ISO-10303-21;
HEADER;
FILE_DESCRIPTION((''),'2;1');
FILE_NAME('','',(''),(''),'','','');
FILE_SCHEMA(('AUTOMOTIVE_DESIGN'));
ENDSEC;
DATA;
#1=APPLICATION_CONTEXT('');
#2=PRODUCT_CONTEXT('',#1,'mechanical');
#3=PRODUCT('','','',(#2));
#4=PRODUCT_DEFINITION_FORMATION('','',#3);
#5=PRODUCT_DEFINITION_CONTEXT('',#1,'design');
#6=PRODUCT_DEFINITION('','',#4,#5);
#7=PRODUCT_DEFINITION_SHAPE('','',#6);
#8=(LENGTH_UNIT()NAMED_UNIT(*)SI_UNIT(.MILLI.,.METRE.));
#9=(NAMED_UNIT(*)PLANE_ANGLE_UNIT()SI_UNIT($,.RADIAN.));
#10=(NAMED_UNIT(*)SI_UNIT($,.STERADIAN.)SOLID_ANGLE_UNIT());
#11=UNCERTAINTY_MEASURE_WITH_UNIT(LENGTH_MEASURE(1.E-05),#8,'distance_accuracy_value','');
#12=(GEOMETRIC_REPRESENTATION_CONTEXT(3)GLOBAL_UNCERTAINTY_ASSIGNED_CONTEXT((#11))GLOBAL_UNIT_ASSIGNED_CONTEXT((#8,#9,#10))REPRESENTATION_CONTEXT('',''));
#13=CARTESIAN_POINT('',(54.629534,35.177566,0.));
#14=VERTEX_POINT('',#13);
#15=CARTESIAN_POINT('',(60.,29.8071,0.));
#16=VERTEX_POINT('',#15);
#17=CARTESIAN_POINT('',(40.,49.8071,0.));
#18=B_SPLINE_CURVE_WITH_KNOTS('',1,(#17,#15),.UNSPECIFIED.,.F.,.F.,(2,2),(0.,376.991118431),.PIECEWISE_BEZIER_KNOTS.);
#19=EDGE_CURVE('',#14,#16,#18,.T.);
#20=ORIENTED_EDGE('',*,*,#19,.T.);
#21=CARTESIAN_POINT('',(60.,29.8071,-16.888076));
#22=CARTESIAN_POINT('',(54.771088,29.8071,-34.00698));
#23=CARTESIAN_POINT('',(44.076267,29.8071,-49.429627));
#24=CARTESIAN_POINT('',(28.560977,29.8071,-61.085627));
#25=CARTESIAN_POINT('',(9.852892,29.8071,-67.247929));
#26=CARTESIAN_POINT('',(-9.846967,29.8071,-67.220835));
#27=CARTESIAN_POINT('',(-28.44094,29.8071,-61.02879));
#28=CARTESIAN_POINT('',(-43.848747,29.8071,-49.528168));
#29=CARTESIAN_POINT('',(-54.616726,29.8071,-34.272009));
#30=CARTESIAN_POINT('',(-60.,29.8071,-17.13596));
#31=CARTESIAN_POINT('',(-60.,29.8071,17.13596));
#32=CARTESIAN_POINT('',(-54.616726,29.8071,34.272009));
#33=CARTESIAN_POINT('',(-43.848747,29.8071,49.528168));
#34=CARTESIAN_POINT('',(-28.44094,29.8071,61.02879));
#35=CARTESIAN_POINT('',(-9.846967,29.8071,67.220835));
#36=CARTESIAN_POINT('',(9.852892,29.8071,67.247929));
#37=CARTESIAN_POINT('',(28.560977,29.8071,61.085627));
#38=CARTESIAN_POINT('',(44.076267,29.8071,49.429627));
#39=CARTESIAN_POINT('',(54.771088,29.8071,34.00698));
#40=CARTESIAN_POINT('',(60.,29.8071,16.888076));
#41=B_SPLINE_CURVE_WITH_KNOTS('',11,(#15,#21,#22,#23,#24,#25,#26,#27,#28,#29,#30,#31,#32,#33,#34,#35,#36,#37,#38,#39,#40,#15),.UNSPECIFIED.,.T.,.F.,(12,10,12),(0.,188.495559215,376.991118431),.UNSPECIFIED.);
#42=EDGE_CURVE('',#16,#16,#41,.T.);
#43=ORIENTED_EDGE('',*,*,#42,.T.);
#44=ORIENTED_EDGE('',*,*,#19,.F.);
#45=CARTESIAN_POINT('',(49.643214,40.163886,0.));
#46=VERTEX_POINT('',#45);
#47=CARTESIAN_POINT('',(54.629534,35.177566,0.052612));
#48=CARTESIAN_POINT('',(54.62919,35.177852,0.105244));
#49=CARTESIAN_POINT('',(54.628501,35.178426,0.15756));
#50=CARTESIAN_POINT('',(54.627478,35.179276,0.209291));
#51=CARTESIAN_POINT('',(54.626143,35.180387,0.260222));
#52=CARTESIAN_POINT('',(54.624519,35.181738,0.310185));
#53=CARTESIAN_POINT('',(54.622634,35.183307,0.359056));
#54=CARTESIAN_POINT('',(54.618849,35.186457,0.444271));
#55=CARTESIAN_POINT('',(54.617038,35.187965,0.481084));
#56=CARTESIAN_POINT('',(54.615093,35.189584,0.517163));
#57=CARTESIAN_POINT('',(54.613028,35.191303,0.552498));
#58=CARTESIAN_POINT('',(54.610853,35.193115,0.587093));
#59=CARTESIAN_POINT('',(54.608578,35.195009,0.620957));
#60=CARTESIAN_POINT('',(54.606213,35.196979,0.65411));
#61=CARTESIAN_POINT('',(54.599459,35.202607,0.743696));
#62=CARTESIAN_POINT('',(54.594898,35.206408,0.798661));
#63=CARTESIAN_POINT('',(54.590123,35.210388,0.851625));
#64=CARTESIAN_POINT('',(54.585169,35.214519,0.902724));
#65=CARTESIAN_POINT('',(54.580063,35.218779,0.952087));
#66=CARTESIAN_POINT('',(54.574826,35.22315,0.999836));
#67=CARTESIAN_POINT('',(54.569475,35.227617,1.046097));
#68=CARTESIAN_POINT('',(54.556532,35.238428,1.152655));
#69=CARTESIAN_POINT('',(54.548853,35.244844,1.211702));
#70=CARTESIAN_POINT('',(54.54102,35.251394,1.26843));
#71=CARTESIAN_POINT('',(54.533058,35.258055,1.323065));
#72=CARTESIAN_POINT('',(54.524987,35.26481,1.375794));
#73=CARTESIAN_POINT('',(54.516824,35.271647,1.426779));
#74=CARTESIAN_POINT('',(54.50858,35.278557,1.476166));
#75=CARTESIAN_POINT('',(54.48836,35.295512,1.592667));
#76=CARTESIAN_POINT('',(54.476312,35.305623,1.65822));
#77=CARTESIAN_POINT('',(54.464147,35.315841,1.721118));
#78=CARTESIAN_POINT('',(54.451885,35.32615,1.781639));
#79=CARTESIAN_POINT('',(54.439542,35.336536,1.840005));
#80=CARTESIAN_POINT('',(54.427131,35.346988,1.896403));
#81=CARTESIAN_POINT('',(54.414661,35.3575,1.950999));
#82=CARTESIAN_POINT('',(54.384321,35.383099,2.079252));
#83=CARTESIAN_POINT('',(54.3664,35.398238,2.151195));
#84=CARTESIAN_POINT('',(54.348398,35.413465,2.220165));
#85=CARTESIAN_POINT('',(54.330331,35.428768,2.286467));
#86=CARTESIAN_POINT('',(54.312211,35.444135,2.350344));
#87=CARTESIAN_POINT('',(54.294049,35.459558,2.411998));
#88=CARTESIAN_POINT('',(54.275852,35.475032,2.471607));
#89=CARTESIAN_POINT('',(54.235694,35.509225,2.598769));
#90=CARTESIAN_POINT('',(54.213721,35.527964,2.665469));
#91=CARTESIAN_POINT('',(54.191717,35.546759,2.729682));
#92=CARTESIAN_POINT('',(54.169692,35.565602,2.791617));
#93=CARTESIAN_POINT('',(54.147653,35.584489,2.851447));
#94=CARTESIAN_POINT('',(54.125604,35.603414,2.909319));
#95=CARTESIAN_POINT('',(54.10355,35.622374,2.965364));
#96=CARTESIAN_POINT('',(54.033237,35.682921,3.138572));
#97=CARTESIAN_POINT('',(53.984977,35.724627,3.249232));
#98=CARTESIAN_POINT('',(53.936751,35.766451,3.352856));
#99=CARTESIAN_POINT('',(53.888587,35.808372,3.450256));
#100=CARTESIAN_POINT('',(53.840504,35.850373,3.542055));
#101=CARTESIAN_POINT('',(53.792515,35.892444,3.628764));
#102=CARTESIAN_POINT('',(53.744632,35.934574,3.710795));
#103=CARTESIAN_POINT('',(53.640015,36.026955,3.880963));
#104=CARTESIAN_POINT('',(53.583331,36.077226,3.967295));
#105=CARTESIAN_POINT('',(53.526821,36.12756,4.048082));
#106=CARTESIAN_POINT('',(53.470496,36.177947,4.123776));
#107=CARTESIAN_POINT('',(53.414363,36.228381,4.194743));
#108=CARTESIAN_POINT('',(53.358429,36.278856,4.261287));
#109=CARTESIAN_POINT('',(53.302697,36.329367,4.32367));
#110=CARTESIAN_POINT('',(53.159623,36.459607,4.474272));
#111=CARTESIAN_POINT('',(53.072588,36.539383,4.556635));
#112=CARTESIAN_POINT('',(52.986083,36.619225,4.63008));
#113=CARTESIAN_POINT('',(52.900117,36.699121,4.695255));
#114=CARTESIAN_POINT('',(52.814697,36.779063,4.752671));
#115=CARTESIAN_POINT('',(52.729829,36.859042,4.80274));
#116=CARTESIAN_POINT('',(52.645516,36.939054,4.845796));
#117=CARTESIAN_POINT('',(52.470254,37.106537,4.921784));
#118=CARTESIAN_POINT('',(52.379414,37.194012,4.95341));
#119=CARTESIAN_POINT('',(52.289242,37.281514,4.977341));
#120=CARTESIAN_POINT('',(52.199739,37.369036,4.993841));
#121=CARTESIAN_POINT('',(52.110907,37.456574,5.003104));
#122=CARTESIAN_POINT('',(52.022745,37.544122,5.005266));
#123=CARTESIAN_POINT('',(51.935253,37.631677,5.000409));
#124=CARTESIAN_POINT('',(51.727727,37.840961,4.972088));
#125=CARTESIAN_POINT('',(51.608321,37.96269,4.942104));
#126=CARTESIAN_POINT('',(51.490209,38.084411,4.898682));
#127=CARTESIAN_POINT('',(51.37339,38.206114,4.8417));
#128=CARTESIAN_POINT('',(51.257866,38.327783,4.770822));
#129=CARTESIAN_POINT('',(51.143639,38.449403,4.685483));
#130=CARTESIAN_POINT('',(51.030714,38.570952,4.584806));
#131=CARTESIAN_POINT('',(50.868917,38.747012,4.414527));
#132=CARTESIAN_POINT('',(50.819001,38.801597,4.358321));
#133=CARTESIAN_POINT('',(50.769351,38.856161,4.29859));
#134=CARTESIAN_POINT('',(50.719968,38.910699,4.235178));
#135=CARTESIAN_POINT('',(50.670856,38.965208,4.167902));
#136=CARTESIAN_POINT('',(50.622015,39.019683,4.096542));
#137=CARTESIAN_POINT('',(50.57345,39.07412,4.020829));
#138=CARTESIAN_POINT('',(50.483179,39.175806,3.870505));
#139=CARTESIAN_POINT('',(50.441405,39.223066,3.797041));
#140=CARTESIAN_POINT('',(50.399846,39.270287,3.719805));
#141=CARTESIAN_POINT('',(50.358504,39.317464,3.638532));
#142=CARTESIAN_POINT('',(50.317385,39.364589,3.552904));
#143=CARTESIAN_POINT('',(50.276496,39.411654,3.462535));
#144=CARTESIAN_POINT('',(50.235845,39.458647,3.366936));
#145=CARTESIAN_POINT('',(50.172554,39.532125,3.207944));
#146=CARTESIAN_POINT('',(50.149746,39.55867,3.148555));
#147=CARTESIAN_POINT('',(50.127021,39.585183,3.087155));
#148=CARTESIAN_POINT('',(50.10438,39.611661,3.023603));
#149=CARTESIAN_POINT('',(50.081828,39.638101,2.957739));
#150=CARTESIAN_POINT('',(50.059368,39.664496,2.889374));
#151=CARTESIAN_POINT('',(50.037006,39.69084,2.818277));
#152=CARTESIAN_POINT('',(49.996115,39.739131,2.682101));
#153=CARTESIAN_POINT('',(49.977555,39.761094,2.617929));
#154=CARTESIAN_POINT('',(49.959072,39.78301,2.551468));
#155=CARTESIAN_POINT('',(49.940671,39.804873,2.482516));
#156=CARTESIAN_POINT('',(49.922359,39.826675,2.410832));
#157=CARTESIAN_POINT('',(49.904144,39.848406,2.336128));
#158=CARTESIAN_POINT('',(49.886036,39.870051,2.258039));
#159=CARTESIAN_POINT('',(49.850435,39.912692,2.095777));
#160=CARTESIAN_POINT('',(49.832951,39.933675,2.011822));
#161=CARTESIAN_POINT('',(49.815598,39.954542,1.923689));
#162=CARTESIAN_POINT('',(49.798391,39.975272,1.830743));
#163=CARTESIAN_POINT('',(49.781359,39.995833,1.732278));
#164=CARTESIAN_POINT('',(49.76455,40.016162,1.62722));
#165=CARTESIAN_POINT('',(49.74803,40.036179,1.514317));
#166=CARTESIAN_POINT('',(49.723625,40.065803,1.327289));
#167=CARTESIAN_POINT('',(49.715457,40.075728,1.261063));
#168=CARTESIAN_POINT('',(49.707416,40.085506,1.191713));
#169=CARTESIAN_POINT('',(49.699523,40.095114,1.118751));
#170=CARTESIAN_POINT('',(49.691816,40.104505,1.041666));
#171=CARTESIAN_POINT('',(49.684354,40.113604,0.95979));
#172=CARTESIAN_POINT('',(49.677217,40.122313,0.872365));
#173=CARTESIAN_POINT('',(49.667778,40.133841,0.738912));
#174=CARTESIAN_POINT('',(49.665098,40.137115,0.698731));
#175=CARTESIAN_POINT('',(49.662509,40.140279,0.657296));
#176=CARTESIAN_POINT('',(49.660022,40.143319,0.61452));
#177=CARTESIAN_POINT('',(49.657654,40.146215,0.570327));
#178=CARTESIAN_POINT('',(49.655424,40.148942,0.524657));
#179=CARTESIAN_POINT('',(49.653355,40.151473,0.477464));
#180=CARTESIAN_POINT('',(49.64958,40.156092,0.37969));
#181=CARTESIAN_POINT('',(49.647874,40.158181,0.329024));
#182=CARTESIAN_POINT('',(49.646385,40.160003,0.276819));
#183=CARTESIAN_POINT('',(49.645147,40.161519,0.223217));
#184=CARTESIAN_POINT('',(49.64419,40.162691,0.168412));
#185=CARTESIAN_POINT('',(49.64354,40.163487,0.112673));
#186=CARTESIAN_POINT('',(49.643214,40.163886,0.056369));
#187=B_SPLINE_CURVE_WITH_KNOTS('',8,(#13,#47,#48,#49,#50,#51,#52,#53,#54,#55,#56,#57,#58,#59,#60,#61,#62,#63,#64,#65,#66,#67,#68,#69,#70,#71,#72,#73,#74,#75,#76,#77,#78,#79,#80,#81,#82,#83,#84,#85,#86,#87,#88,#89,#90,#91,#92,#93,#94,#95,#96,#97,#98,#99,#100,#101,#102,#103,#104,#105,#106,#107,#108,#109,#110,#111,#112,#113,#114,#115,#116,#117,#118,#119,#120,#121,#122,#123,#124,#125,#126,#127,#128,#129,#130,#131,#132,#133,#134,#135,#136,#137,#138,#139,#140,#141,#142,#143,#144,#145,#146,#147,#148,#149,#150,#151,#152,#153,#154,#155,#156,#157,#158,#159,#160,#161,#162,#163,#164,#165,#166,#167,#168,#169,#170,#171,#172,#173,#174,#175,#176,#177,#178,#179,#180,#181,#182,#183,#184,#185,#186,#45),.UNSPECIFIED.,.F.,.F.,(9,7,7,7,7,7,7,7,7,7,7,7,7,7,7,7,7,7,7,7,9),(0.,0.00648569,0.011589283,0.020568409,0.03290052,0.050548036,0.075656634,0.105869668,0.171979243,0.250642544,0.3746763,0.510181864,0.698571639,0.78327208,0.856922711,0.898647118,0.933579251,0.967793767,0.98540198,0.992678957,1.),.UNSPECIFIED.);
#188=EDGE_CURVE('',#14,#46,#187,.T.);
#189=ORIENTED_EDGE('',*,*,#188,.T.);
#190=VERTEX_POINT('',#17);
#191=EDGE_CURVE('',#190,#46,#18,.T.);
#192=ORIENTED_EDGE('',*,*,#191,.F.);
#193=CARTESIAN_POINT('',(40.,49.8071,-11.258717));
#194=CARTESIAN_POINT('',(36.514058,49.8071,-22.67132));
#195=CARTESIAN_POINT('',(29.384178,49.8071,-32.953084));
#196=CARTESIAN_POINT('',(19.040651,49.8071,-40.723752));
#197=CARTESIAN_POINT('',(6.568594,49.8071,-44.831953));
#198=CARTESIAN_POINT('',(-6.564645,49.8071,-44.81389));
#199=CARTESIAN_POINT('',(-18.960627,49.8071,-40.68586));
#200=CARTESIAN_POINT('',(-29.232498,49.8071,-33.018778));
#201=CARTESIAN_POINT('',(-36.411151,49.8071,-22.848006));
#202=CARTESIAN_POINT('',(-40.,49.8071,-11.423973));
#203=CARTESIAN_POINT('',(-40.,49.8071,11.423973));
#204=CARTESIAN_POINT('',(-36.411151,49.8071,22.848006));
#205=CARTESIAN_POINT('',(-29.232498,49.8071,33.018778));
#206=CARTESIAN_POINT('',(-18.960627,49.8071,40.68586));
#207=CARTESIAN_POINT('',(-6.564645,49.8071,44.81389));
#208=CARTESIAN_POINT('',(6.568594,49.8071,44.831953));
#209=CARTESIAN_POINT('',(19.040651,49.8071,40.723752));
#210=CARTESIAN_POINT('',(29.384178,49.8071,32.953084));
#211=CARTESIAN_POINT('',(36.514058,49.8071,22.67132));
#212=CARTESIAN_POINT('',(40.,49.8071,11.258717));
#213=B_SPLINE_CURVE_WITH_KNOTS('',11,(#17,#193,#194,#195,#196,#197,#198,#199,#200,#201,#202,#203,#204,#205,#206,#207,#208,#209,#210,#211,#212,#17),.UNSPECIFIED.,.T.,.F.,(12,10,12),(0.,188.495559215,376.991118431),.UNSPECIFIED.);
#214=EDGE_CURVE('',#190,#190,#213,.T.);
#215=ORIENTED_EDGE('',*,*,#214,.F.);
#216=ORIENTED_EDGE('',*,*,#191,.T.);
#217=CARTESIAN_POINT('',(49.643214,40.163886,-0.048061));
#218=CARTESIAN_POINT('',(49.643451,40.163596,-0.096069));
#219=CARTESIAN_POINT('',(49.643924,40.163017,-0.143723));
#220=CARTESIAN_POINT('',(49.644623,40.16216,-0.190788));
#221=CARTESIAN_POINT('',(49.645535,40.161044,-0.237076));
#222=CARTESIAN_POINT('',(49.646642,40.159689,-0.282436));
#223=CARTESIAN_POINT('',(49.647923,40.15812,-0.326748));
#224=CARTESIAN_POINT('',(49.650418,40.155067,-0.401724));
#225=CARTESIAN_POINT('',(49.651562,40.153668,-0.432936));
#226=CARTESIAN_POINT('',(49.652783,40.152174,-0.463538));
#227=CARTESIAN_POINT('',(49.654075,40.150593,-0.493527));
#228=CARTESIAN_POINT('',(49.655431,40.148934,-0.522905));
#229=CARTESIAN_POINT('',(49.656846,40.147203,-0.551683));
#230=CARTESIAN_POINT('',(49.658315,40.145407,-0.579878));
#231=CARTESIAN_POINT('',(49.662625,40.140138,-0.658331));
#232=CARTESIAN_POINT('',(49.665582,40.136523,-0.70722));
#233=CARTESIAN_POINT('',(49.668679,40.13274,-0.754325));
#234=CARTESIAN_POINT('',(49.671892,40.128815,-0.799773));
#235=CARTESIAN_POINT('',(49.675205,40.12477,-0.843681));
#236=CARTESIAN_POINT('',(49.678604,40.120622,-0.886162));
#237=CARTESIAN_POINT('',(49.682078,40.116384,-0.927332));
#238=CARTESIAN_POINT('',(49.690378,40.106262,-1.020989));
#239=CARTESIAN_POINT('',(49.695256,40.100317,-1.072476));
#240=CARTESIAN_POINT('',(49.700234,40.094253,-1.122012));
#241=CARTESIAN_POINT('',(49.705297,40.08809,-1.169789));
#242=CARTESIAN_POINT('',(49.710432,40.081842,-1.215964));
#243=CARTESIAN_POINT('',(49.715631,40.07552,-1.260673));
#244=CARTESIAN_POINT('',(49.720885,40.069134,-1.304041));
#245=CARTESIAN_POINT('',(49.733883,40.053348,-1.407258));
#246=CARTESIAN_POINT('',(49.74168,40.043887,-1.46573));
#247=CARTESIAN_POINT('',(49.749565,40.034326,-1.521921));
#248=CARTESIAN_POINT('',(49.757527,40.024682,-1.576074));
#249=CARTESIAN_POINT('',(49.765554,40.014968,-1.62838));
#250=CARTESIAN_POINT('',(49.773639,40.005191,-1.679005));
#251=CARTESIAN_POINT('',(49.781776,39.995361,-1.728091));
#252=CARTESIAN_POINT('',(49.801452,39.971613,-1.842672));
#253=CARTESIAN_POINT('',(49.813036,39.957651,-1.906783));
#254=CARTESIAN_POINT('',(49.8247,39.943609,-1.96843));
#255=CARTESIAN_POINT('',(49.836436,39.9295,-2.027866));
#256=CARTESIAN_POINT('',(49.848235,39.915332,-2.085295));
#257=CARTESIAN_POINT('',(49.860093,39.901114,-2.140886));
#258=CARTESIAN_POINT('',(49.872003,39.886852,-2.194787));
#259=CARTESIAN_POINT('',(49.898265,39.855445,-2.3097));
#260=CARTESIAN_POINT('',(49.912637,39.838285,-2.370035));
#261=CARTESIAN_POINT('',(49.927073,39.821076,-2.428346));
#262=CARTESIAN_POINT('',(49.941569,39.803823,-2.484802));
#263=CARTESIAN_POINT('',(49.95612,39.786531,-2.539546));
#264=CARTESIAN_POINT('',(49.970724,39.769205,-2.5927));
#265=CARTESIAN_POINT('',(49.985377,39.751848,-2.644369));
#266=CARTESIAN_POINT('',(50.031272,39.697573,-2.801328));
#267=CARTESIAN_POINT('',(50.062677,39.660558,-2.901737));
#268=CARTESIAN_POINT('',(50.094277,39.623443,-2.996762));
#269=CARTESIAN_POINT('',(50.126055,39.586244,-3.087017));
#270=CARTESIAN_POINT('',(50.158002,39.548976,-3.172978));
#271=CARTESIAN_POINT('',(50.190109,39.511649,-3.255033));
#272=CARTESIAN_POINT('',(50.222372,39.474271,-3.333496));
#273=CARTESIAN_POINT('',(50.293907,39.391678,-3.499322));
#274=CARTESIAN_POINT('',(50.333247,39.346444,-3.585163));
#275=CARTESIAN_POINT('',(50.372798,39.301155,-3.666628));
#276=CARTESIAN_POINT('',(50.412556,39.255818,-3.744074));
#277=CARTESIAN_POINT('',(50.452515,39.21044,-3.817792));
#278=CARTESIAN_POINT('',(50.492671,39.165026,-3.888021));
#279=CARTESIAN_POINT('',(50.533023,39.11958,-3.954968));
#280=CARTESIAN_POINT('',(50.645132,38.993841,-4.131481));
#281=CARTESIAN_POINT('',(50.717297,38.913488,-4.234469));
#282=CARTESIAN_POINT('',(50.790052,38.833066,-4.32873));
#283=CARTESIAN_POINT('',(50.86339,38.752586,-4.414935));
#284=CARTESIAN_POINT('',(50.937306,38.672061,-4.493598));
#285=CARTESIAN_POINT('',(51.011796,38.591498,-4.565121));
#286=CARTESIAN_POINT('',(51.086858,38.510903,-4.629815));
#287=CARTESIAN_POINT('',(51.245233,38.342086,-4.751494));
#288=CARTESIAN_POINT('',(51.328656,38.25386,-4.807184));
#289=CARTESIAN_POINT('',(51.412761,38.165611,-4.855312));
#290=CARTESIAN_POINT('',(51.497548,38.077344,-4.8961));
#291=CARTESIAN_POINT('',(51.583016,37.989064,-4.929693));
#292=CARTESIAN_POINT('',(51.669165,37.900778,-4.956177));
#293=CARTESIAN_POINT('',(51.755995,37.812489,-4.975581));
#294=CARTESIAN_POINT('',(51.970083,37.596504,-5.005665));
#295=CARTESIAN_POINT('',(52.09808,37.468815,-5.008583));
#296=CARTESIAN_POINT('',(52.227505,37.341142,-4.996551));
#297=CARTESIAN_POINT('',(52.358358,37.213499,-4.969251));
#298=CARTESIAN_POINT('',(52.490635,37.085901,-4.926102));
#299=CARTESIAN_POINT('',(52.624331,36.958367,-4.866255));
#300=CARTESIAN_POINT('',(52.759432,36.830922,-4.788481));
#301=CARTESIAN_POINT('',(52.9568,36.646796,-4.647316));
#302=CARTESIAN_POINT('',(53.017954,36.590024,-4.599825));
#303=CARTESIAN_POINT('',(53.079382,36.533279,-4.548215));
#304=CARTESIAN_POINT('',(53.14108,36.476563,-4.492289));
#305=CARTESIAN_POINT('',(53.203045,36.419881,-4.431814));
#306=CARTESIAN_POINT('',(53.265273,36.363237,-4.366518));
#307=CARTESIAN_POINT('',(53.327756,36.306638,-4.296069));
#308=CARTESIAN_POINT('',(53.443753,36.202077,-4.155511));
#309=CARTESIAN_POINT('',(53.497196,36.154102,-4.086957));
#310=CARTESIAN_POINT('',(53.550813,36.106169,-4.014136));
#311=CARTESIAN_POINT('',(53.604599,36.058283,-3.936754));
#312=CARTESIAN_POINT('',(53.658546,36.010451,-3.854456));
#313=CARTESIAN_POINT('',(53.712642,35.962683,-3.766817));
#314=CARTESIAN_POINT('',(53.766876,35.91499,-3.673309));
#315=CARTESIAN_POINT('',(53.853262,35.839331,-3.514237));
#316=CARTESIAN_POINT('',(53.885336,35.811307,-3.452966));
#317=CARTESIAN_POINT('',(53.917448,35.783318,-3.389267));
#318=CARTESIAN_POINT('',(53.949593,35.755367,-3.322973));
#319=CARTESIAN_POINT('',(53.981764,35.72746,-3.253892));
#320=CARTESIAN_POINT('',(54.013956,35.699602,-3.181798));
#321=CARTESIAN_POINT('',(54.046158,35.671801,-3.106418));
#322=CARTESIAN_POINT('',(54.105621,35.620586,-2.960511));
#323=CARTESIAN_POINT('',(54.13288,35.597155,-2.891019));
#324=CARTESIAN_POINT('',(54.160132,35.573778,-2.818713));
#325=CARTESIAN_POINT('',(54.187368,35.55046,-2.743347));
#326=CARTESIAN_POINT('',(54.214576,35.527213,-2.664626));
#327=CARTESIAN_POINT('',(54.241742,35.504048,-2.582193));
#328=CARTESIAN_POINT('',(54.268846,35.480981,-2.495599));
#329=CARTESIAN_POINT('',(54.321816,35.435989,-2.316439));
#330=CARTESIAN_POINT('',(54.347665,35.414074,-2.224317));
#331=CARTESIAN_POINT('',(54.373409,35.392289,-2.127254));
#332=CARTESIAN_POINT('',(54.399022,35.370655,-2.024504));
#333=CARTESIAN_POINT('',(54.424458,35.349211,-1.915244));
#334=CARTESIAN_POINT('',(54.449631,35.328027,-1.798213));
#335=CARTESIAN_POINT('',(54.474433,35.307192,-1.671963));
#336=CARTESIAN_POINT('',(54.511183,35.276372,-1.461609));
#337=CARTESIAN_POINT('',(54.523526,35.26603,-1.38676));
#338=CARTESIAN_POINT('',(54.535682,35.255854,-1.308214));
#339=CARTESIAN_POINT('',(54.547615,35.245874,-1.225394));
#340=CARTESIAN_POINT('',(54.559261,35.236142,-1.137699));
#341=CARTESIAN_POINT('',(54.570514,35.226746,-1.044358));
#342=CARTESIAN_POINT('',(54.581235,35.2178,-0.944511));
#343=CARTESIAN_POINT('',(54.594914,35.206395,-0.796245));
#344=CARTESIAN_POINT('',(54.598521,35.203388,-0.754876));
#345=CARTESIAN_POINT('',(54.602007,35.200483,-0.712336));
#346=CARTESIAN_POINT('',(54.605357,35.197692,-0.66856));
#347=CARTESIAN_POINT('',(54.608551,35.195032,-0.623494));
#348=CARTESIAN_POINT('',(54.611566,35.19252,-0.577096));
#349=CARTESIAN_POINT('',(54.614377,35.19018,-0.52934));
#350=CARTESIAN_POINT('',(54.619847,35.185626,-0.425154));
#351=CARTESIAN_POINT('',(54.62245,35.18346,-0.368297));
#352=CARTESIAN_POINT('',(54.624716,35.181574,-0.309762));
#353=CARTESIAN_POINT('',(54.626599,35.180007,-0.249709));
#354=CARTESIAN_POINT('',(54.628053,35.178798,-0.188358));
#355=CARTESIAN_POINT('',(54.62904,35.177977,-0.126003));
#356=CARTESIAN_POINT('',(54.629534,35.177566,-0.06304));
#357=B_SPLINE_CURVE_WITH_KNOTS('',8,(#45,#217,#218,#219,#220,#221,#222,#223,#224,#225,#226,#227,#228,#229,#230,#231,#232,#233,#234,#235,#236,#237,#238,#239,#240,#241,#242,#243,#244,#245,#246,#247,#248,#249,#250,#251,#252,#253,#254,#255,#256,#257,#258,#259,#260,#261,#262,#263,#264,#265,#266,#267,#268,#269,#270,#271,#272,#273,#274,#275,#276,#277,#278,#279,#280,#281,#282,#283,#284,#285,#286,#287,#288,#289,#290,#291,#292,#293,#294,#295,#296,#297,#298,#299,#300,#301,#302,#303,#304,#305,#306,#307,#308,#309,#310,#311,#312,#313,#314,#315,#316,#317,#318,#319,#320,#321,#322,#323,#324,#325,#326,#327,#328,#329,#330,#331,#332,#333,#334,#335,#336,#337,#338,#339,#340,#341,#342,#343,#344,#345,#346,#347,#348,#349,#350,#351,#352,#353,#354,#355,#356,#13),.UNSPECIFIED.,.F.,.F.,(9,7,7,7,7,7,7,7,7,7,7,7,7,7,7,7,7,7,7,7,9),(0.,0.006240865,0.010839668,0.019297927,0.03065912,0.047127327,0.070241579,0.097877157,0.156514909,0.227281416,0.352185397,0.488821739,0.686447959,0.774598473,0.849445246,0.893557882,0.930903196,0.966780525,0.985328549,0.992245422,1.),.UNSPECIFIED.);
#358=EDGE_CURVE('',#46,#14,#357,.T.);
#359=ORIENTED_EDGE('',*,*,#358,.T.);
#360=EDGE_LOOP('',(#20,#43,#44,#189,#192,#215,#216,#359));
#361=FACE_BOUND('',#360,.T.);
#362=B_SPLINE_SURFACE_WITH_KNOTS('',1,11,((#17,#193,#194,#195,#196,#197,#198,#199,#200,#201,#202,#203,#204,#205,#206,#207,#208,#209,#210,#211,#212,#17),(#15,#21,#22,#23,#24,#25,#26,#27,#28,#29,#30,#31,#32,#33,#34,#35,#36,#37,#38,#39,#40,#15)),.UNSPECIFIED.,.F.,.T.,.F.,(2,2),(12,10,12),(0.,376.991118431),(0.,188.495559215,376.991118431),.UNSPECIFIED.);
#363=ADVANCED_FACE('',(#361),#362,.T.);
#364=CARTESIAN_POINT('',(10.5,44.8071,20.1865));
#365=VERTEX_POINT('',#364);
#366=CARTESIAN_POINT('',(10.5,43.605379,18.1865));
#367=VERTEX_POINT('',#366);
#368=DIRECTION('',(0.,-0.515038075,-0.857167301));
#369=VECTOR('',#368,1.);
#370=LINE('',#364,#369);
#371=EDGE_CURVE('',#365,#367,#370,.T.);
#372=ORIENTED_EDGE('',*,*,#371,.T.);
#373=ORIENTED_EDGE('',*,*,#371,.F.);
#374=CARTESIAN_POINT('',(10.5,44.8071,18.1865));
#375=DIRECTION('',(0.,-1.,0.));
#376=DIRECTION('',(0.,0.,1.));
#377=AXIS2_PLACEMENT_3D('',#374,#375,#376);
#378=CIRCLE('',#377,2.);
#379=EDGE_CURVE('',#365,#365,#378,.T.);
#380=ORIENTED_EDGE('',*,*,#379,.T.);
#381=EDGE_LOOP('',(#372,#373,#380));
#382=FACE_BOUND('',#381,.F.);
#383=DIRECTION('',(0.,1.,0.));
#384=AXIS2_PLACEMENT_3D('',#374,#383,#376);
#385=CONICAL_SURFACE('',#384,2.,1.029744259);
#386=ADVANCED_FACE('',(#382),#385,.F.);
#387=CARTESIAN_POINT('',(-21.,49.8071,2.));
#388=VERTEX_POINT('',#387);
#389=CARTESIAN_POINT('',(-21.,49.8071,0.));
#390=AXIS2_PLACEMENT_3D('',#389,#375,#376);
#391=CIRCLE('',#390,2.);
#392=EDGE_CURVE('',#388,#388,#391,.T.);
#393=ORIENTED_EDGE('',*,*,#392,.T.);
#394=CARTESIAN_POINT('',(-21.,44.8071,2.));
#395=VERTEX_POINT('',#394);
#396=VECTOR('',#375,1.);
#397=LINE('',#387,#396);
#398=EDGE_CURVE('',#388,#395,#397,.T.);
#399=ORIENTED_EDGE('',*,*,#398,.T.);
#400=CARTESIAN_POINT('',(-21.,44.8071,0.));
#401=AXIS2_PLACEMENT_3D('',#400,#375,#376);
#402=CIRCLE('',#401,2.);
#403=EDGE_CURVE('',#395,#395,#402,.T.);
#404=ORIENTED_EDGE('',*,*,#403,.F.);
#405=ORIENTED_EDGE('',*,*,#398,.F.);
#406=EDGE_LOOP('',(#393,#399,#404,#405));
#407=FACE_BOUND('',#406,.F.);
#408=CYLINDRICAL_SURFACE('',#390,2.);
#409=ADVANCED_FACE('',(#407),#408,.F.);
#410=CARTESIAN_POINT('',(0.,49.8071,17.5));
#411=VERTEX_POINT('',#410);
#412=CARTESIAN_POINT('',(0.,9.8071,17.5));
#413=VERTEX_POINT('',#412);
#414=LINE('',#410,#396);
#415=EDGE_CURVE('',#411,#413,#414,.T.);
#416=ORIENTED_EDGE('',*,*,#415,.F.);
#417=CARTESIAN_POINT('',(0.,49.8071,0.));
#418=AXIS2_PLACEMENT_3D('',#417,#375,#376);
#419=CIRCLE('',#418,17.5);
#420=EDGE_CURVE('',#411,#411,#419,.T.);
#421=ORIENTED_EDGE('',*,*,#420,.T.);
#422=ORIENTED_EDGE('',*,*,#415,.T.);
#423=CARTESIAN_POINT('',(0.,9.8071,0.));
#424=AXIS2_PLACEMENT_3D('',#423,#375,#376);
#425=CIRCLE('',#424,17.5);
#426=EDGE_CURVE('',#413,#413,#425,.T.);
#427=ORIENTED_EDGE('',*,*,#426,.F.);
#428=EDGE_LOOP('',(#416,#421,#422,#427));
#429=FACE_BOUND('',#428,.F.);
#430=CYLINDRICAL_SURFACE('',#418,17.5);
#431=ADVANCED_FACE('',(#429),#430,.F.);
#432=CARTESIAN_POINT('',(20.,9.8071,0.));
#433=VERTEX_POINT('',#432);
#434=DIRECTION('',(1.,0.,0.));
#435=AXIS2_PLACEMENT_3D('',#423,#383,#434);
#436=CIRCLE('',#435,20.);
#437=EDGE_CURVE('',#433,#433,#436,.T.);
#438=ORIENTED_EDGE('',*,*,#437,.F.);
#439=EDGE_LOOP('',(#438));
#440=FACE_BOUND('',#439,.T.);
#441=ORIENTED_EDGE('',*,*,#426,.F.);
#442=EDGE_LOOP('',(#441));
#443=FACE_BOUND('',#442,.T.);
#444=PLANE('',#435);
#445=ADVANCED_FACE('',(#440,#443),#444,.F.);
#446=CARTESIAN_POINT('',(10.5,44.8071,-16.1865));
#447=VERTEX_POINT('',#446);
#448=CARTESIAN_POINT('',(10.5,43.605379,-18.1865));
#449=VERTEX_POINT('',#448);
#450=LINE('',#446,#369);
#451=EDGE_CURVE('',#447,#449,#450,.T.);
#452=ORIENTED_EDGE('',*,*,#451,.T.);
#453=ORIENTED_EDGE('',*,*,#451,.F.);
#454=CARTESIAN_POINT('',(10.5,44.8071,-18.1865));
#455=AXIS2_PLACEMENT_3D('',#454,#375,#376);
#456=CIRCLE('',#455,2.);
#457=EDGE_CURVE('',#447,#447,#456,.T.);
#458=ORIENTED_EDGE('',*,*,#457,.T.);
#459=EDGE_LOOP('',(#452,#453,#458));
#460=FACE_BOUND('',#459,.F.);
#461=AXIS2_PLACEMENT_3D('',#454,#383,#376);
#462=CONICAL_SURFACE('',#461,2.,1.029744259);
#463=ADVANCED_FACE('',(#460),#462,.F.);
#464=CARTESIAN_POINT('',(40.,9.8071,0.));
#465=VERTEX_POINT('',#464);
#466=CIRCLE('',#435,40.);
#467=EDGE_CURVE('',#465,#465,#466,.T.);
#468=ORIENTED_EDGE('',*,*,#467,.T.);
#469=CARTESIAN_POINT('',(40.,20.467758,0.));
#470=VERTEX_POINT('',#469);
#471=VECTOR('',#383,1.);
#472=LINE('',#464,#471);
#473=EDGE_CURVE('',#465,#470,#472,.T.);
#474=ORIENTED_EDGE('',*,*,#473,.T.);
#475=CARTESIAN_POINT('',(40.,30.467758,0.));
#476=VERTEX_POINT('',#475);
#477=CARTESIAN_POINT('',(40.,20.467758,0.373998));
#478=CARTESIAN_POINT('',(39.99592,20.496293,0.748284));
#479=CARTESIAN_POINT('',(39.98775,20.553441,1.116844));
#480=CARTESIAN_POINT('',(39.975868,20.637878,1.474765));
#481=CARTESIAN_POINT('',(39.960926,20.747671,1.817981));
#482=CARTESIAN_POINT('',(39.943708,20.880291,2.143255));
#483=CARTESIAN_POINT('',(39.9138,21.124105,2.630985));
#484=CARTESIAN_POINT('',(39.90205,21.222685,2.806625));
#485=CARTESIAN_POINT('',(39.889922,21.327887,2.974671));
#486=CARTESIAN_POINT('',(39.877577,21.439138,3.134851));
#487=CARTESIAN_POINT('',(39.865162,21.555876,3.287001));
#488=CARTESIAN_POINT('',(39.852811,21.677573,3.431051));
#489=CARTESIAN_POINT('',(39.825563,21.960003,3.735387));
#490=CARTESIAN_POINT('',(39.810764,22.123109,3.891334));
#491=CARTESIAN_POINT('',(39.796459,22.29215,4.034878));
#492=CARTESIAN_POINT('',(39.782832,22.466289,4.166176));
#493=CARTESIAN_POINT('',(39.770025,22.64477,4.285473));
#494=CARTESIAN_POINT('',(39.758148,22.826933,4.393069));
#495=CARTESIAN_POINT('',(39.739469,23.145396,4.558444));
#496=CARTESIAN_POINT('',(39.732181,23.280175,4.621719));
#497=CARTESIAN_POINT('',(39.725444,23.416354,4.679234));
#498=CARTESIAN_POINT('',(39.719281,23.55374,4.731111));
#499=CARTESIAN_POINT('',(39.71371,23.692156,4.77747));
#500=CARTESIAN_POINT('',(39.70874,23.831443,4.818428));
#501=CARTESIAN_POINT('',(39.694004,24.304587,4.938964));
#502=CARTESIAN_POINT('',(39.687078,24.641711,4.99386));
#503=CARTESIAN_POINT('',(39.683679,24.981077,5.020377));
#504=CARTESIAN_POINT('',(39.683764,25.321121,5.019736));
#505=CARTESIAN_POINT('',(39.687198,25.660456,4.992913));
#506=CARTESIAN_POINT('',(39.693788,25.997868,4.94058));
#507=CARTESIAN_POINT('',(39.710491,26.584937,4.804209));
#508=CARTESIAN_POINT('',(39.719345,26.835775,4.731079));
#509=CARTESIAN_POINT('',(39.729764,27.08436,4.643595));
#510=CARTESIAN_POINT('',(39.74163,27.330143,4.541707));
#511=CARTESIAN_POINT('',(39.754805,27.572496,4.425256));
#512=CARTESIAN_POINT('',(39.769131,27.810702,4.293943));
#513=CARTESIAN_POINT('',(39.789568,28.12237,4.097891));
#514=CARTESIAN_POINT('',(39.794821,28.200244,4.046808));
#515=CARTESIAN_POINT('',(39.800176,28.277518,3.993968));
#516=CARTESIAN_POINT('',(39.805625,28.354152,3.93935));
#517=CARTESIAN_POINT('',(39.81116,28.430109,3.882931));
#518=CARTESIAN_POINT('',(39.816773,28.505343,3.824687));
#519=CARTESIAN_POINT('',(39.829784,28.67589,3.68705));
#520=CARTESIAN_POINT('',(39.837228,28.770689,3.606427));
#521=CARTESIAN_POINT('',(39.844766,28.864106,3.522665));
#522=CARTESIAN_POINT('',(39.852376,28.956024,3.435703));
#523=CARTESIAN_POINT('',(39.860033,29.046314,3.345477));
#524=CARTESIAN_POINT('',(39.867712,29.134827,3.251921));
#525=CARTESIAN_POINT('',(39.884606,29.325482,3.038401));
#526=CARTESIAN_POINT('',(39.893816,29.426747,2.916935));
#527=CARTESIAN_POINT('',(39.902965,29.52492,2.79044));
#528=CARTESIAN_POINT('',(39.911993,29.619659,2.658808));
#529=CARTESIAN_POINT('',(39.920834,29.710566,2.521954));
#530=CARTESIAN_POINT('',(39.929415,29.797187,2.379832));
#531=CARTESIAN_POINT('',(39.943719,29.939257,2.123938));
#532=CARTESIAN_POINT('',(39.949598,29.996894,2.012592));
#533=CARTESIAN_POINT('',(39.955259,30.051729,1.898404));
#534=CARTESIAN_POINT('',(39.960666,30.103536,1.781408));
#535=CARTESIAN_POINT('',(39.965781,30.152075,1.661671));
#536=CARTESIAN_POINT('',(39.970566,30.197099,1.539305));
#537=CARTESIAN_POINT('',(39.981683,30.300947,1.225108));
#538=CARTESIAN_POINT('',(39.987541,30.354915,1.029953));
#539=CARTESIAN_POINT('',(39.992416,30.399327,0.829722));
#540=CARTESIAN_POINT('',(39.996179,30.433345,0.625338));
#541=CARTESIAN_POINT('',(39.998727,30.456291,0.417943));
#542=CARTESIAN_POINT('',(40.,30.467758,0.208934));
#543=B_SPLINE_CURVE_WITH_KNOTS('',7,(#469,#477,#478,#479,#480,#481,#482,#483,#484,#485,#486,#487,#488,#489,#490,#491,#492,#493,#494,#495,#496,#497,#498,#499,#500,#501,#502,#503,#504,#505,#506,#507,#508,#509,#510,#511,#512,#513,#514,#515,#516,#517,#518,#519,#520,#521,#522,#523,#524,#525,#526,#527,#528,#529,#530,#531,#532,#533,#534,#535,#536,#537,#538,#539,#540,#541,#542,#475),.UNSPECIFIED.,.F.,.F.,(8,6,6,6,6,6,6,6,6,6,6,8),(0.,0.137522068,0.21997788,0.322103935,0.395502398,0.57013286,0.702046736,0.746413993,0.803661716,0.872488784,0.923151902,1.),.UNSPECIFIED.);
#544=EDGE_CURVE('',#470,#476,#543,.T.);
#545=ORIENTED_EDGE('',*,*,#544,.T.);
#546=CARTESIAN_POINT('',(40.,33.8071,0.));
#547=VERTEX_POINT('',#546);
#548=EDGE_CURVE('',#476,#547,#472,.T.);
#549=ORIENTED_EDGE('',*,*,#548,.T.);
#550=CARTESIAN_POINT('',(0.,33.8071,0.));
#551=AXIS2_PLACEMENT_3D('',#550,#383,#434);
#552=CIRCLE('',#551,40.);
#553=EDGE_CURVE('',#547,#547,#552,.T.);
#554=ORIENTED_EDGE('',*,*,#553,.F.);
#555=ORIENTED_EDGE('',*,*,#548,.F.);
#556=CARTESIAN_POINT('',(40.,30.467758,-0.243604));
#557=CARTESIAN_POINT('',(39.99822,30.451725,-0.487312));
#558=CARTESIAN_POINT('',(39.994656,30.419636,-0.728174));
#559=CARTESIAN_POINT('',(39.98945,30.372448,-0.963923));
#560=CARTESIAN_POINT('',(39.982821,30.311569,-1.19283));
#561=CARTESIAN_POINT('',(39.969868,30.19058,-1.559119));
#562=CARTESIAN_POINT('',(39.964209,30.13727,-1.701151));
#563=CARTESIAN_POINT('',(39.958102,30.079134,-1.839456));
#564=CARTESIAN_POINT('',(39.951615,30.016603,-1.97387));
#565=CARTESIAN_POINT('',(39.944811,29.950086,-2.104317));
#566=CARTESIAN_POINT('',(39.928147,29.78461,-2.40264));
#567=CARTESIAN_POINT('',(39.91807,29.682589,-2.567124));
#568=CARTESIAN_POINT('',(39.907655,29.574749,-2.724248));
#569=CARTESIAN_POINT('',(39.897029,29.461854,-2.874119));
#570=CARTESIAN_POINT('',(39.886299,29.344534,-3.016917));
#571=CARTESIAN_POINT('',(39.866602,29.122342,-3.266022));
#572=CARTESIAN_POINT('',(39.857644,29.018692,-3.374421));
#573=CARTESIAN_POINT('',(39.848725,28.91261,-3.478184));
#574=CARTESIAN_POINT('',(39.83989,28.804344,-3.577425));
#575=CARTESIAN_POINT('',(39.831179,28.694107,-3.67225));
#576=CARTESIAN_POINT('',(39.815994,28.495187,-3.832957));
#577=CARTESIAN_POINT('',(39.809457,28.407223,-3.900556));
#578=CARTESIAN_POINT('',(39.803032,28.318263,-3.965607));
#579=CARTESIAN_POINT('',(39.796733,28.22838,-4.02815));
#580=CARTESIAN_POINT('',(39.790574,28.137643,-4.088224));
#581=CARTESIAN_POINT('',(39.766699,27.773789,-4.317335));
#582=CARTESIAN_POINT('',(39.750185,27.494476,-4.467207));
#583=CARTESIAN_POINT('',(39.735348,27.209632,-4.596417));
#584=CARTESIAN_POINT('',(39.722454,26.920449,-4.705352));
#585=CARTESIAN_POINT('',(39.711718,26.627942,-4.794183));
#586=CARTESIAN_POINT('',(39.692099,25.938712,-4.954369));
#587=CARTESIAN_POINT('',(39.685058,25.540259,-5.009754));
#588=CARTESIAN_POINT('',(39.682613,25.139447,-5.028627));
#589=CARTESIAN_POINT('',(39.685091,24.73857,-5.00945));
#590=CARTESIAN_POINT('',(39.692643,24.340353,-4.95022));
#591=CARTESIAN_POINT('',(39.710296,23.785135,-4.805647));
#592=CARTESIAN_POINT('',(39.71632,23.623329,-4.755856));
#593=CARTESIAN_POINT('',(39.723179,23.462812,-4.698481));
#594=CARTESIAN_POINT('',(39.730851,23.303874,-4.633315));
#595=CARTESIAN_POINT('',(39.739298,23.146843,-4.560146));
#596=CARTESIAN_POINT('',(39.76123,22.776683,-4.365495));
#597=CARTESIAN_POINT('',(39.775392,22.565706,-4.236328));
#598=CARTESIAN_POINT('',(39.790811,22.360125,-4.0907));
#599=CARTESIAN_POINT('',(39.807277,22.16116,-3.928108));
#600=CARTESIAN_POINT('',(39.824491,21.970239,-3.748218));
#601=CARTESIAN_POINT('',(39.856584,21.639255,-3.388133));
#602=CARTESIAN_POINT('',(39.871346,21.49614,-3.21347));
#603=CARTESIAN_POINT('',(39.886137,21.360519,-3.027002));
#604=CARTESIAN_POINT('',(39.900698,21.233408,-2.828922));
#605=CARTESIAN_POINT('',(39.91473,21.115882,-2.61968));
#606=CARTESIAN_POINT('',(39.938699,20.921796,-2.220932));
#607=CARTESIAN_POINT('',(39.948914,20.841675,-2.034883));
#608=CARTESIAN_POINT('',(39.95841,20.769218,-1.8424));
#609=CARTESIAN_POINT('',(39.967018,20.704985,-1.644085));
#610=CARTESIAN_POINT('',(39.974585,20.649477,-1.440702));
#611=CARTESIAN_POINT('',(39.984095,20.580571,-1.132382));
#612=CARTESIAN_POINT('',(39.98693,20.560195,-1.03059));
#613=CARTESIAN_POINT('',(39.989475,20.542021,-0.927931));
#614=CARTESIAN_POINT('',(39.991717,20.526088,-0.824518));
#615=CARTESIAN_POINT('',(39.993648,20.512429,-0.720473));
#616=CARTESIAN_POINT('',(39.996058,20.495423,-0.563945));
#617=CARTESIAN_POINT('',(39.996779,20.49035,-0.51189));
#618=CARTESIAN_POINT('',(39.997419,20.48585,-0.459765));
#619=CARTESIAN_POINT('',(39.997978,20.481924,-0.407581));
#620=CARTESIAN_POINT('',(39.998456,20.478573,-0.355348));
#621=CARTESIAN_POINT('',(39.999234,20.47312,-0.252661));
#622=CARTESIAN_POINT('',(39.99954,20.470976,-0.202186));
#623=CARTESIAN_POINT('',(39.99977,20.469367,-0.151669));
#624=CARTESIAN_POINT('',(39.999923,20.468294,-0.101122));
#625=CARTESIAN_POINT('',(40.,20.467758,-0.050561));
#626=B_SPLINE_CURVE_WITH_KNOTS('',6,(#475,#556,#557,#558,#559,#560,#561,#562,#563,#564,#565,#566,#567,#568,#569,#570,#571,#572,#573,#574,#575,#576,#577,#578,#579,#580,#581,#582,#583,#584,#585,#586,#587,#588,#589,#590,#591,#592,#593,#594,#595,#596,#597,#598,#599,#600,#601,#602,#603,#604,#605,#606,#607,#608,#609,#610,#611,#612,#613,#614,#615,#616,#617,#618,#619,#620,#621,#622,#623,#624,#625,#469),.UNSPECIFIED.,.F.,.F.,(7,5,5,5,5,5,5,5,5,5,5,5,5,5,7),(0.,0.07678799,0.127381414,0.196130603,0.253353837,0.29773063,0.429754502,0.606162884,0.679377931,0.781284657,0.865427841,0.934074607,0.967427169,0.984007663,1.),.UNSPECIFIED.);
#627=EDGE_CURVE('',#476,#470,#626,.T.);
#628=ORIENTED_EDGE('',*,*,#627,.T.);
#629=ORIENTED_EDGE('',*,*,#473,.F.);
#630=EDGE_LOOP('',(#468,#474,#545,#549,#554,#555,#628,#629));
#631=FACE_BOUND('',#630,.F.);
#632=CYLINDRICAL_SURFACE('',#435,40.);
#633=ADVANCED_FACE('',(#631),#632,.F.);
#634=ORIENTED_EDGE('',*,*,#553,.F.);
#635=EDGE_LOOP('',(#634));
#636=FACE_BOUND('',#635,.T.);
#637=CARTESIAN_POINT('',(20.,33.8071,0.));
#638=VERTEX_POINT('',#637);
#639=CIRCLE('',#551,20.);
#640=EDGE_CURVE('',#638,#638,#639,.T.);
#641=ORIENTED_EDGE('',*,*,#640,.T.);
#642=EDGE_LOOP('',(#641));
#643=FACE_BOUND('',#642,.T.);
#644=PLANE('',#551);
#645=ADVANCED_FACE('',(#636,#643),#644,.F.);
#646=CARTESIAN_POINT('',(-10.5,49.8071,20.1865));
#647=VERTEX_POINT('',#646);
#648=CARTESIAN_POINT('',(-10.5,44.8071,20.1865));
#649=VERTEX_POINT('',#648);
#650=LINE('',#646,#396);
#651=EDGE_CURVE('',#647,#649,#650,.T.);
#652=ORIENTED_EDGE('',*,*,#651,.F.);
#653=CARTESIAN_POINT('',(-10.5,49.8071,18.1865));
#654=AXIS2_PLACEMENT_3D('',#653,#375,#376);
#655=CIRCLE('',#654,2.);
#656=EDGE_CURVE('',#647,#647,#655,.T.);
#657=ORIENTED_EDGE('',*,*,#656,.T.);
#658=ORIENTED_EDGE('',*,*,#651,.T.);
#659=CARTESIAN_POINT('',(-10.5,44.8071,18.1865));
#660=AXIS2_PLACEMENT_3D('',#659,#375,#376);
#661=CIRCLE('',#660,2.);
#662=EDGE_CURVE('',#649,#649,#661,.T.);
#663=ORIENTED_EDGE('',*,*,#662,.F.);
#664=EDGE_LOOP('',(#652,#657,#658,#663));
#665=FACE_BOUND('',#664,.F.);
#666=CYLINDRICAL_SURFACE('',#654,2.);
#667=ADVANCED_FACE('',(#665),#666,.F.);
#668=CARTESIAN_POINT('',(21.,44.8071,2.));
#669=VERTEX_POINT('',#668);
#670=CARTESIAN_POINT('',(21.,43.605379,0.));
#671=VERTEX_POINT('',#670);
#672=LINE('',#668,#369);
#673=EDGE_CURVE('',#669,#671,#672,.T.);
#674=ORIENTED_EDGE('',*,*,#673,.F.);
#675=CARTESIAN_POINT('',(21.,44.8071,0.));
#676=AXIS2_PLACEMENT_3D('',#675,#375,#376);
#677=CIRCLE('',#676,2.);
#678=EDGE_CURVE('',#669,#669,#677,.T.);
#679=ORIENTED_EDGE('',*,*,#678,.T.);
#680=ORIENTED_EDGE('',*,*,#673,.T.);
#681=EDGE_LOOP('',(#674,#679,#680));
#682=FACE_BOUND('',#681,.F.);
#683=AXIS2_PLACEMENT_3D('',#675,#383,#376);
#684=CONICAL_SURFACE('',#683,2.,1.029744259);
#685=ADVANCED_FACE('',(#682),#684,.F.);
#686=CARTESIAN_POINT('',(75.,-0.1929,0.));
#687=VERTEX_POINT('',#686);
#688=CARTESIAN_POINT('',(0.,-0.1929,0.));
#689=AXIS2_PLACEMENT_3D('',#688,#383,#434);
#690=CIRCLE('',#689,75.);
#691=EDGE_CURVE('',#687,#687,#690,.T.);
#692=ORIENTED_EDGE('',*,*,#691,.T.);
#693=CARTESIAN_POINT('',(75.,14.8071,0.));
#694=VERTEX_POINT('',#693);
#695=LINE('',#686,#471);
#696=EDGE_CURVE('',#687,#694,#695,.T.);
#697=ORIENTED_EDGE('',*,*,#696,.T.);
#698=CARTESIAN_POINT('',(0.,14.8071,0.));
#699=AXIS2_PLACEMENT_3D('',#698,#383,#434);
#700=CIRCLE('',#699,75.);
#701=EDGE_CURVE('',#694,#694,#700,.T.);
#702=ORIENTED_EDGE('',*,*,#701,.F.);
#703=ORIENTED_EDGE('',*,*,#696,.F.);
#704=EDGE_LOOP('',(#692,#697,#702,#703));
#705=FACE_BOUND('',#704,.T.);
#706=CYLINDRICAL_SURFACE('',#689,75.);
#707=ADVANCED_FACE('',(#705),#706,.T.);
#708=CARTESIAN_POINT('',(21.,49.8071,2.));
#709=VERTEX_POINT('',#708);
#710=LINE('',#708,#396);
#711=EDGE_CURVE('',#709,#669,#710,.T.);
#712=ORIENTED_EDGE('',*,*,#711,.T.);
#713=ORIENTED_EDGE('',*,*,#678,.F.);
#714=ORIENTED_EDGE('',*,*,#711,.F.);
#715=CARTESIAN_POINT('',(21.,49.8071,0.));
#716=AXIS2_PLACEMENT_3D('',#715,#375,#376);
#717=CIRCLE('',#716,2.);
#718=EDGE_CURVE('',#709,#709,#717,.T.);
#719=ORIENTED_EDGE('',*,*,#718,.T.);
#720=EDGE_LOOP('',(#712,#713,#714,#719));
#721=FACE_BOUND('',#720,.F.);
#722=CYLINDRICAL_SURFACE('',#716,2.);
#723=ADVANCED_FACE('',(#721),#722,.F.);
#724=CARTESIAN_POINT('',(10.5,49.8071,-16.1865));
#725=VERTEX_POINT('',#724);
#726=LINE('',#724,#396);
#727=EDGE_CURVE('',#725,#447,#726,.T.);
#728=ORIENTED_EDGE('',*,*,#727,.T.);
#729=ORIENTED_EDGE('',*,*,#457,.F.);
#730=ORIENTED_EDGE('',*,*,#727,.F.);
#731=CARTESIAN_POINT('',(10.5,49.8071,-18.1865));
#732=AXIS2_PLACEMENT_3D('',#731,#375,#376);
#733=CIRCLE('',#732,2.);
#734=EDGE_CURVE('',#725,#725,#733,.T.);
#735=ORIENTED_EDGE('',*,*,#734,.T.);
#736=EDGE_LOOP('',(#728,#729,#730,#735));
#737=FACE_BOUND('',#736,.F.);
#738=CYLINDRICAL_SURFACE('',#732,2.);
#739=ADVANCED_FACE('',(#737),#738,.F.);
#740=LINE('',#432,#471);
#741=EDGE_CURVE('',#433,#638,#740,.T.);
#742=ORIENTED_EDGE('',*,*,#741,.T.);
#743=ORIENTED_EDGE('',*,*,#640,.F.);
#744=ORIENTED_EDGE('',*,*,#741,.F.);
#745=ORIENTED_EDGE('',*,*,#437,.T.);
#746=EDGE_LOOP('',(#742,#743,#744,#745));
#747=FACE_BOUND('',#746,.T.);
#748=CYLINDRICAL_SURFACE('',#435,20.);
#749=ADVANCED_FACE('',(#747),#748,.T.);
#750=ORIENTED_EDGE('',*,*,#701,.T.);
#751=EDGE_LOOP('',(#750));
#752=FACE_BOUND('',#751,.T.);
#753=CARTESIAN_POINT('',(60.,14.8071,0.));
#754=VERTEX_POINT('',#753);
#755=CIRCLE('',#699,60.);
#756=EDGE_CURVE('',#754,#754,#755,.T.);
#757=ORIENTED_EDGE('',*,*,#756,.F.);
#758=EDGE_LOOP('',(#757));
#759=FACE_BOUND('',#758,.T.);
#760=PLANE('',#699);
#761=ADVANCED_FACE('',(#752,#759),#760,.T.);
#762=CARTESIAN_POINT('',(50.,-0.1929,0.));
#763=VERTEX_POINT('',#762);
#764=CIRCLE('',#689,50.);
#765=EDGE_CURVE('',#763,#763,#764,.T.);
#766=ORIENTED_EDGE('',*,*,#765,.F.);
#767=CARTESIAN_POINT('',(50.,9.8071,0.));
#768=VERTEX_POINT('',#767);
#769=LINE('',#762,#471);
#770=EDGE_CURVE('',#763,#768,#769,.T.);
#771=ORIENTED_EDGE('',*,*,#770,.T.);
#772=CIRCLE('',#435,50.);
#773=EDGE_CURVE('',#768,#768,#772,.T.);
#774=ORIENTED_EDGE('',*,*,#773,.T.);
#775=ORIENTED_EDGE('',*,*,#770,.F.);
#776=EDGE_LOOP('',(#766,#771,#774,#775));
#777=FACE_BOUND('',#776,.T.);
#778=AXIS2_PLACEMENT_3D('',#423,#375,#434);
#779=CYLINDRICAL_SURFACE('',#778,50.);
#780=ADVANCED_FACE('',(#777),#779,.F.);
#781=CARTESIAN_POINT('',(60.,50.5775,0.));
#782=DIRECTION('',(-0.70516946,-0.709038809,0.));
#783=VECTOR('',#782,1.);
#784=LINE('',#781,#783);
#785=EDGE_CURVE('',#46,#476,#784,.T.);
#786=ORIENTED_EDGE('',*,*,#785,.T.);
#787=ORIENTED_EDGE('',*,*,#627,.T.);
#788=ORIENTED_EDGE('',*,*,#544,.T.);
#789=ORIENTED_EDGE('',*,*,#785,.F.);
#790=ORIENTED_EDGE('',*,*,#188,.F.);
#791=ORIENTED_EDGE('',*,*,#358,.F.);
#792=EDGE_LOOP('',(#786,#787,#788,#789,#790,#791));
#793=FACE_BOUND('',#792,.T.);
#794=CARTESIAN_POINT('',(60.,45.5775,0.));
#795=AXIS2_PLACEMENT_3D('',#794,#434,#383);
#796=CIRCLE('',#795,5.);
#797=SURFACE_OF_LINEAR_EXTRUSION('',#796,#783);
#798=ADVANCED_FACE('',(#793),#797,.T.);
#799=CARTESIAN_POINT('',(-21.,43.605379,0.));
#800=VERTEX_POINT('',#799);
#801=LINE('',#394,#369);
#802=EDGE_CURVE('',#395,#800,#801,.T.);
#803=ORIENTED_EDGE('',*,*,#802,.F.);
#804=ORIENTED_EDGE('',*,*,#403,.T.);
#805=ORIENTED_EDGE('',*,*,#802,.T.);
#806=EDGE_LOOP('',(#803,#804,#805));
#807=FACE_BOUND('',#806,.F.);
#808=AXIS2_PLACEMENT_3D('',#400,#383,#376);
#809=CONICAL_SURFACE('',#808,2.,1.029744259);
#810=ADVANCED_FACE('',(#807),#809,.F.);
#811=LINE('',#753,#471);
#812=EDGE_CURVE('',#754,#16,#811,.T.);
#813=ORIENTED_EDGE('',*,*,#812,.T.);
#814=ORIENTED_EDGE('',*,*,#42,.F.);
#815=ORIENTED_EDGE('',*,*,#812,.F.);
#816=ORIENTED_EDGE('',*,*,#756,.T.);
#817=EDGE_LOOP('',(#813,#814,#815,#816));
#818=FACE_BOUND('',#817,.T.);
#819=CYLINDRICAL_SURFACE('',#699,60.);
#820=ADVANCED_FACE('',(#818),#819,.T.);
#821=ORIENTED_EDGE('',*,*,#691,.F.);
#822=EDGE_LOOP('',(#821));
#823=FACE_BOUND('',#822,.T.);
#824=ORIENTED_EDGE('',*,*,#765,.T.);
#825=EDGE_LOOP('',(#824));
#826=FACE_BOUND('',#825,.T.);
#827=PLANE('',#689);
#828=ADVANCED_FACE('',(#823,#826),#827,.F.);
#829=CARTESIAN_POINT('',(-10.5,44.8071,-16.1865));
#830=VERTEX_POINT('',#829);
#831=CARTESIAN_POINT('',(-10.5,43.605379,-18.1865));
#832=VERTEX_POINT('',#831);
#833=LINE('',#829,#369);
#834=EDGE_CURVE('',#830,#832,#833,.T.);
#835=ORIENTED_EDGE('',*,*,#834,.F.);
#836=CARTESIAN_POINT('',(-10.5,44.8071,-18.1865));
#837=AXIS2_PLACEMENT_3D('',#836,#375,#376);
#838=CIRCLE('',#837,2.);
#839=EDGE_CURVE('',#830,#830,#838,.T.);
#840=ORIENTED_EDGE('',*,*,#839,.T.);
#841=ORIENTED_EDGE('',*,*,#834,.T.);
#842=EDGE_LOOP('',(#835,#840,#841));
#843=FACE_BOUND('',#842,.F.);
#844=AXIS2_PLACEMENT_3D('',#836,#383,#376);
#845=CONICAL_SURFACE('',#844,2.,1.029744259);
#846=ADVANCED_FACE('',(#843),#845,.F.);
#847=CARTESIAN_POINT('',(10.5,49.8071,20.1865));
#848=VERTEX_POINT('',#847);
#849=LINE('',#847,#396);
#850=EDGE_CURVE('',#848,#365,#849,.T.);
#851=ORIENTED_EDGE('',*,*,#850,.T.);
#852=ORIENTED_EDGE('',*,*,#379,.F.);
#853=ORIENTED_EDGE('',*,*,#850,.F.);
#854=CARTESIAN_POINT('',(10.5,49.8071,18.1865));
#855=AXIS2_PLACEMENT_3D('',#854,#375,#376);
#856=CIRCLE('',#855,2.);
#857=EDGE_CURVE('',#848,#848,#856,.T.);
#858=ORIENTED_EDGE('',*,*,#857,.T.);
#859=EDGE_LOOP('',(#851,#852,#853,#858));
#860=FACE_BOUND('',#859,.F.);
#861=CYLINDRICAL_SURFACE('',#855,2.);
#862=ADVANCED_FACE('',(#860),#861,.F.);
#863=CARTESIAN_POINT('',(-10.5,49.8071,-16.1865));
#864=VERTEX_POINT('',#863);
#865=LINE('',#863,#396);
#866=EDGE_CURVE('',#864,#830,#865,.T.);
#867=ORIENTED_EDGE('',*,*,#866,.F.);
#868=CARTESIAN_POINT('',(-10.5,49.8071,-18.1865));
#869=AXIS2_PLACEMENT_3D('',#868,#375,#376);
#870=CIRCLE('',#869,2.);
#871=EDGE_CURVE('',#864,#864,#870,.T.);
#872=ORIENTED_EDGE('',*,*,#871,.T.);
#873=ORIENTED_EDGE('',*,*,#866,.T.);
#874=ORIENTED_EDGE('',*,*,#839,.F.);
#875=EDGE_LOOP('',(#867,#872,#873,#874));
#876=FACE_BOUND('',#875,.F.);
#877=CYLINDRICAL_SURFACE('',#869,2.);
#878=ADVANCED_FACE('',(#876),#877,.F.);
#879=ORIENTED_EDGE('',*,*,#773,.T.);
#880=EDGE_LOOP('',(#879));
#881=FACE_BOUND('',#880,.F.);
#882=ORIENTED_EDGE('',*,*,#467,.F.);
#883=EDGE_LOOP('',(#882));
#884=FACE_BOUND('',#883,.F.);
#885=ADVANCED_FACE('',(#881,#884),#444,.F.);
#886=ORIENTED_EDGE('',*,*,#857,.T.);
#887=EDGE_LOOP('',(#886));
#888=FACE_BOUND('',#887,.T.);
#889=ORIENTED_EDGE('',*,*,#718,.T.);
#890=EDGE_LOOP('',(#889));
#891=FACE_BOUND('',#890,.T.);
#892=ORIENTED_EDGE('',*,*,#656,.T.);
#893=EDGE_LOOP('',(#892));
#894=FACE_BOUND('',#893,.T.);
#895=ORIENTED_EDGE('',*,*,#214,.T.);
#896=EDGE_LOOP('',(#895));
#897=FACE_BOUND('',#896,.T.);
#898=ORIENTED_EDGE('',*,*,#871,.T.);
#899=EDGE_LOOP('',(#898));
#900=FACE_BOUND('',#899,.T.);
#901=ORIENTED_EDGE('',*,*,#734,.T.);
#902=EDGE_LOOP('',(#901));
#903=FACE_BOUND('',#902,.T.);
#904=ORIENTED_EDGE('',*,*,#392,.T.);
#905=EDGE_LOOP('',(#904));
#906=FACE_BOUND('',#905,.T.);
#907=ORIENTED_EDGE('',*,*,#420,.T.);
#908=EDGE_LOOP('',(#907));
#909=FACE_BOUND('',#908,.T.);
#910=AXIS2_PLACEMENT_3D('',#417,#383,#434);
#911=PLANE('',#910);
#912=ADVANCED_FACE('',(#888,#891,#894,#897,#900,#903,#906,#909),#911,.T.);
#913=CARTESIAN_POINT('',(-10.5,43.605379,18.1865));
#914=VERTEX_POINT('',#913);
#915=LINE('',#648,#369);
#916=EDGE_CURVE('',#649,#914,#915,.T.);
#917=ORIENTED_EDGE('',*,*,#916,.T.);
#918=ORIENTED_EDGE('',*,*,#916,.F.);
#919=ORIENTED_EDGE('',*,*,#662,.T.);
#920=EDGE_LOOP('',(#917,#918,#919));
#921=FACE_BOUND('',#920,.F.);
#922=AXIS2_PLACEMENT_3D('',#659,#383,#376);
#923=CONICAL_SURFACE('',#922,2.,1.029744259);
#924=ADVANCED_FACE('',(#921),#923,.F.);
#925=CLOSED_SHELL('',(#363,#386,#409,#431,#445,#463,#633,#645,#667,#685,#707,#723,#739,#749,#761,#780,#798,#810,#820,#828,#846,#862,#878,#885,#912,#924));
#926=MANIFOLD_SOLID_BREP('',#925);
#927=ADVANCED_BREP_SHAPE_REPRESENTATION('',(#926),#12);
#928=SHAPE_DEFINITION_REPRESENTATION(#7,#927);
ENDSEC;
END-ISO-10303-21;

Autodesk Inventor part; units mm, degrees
ref_plane "XZ Plane" through (0, 0, 0) normal (0, 1, 0) x (-1, 0, 0)
sketch "Sketch1" plane through (0, 0, 0) normal (0, 0, 1) x (1, 0, 0)
  line L0 (0, 0) -> (0, 66)
  line L1 (75, -0.1929) -> (75, 14.8071)
  line L2 (-21.5975, 0) -> (0, 0)
  line L3 (46.9201, 0) -> (53.1744, 0)
  line L4 (75, 14.8071) -> (60, 14.8071)
  line L5 (60, 14.8071) -> (60, 34.8071)
  line L6 (0, 33.8071) -> (0, 49.8071)
  line L7 (0, 49.8071) -> (35, 49.8071)
  line L8 (46.9201, 9.8071) -> (40, 9.8071)
  line L9 (40, 9.8071) -> (40, 33.8071)
  line L10 (60, 34.8071) -> (60, 49.8071)
  line L11 (60, 49.8071) -> (35, 49.8071)
  line L12 (46.9201, 9.8071) -> (50, 9.8071)
  line L13 (50, 9.8071) -> (50, -0.1929)
  line L14 (50, -0.1929) -> (75, -0.1929)
  line L15 (0, 33.8071) -> (0, 9.8071)
  line L16 (0, 9.8071) -> (20, 9.8071)
  line L17 (20, 9.8071) -> (20, 33.8071)
  line L18 (20, 33.8071) -> (40, 33.8071)
  dimension "d0" = 66
  dimension "d2" = 150
  dimension "d4" = 15
  dimension "d5" = 20
  dimension "d15" = 35
  dimension "d16" = 70
  dimension "d84" = 100
  dimension "d92" = 50
  dimension "d132" = 15
  dimension "d134" = 10
  dimension "d136" = 40
  dimension "d137" = 20
revolve "Revolution1" add sketch "Sketch1" angle 360 about axis through (0, 0, 0) along (0, 1, 0)
chamfer "Chamfer1" distance 20 angle 45 1 edges at (-60, 49.8071, 0)
ref_plane "Work Plane1" through (60, 0, 0) normal (1, 0, 0) x (0, 1, 0)
sketch "Sketch10" plane through (0, 49.8071, 0) normal (0, 1, 0) x (1, 0, 0)
  circle A0 centre (0, 0) radius 16
  dimension "d54" = 32
hole "Hole2" at (0, 49.8071, 0) direction (0, -1, 0) diameter 35 end through all
ref_plane "Work Plane2" through (60, 0, 0) normal (1, 0, 0) x (0, 1, 0)
sketch "Sketch14" plane through (60, 0, 0) normal (1, 0, 0) x (0, 1, 0)
  circle A0 centre (45.5775, 0) radius 5
  point P0 (0, 0)
  dimension "d89" = 10
sketch "Sketch15" plane through (0, 0, 0) normal (0, 0, 1) x (1, 0, 0)
  line L0 (59.908, 45.3055) -> (36.1068, 21.3737)
  point P0 (0, 0)
sweep "Sweep4" cut profiles "Sketch14" path "Sketch15"
sketch "Sketch18" plane through (0, 49.8071, 0) normal (0, 1, 0) x (1, 0, 0)
  point P0 (0, 0)
sketch "Sketch19" plane through (0, 49.8071, 0) normal (0, 1, 0) x (1, 0, 0)
  circle A0 centre (-21, 0) radius 2
  circle A1 centre (-10.5, -18.1865) radius 2
  circle A2 centre (10.5, -18.1865) radius 2
  circle A3 centre (21, 0) radius 2
  circle A4 centre (10.5, 18.1865) radius 2
  circle A5 centre (-10.5, 18.1865) radius 2
  point P0 (0, 0)
  dimension "d144" = 4
  dimension "d145" = 21
  dimension "d148" = 360
hole "Hole5" at (-21, 49.8071, 0) at (-10.5, 49.8071, -18.1865) at (21, 49.8071, 0) at (10.5, 49.8071, 18.1865) at (-10.5, 49.8071, 18.1865) at (10.5, 49.8071, -18.1865) direction (0, -1, 0) diameter 4 depth 5 tip angle 118
thread "Thread21"
thread "Thread22"
thread "Thread23"
thread "Thread24"
thread "Thread25"
thread "Thread26"
equation "\"d60\" = Thickness"
equation "\"BendRadius\" = Thickness"
equation "\"BendReliefWidth\" = Thickness"
equation "\"BendReliefDepth\" = 0.5 * Thickness"
equation "\"CornerReliefSize\" = 4 * Thickness"
equation "\"MinimumRemnant\" = 2 * Thickness"
equation "\"TransitionRadius\" = BendRadius"
equation "\"JacobiRadiusSize\" = BendRadius"
equation "\"GapSize\" = Thickness"
equation "\"Thickness\" = 0.5"
properties material "Stainless Steel"
